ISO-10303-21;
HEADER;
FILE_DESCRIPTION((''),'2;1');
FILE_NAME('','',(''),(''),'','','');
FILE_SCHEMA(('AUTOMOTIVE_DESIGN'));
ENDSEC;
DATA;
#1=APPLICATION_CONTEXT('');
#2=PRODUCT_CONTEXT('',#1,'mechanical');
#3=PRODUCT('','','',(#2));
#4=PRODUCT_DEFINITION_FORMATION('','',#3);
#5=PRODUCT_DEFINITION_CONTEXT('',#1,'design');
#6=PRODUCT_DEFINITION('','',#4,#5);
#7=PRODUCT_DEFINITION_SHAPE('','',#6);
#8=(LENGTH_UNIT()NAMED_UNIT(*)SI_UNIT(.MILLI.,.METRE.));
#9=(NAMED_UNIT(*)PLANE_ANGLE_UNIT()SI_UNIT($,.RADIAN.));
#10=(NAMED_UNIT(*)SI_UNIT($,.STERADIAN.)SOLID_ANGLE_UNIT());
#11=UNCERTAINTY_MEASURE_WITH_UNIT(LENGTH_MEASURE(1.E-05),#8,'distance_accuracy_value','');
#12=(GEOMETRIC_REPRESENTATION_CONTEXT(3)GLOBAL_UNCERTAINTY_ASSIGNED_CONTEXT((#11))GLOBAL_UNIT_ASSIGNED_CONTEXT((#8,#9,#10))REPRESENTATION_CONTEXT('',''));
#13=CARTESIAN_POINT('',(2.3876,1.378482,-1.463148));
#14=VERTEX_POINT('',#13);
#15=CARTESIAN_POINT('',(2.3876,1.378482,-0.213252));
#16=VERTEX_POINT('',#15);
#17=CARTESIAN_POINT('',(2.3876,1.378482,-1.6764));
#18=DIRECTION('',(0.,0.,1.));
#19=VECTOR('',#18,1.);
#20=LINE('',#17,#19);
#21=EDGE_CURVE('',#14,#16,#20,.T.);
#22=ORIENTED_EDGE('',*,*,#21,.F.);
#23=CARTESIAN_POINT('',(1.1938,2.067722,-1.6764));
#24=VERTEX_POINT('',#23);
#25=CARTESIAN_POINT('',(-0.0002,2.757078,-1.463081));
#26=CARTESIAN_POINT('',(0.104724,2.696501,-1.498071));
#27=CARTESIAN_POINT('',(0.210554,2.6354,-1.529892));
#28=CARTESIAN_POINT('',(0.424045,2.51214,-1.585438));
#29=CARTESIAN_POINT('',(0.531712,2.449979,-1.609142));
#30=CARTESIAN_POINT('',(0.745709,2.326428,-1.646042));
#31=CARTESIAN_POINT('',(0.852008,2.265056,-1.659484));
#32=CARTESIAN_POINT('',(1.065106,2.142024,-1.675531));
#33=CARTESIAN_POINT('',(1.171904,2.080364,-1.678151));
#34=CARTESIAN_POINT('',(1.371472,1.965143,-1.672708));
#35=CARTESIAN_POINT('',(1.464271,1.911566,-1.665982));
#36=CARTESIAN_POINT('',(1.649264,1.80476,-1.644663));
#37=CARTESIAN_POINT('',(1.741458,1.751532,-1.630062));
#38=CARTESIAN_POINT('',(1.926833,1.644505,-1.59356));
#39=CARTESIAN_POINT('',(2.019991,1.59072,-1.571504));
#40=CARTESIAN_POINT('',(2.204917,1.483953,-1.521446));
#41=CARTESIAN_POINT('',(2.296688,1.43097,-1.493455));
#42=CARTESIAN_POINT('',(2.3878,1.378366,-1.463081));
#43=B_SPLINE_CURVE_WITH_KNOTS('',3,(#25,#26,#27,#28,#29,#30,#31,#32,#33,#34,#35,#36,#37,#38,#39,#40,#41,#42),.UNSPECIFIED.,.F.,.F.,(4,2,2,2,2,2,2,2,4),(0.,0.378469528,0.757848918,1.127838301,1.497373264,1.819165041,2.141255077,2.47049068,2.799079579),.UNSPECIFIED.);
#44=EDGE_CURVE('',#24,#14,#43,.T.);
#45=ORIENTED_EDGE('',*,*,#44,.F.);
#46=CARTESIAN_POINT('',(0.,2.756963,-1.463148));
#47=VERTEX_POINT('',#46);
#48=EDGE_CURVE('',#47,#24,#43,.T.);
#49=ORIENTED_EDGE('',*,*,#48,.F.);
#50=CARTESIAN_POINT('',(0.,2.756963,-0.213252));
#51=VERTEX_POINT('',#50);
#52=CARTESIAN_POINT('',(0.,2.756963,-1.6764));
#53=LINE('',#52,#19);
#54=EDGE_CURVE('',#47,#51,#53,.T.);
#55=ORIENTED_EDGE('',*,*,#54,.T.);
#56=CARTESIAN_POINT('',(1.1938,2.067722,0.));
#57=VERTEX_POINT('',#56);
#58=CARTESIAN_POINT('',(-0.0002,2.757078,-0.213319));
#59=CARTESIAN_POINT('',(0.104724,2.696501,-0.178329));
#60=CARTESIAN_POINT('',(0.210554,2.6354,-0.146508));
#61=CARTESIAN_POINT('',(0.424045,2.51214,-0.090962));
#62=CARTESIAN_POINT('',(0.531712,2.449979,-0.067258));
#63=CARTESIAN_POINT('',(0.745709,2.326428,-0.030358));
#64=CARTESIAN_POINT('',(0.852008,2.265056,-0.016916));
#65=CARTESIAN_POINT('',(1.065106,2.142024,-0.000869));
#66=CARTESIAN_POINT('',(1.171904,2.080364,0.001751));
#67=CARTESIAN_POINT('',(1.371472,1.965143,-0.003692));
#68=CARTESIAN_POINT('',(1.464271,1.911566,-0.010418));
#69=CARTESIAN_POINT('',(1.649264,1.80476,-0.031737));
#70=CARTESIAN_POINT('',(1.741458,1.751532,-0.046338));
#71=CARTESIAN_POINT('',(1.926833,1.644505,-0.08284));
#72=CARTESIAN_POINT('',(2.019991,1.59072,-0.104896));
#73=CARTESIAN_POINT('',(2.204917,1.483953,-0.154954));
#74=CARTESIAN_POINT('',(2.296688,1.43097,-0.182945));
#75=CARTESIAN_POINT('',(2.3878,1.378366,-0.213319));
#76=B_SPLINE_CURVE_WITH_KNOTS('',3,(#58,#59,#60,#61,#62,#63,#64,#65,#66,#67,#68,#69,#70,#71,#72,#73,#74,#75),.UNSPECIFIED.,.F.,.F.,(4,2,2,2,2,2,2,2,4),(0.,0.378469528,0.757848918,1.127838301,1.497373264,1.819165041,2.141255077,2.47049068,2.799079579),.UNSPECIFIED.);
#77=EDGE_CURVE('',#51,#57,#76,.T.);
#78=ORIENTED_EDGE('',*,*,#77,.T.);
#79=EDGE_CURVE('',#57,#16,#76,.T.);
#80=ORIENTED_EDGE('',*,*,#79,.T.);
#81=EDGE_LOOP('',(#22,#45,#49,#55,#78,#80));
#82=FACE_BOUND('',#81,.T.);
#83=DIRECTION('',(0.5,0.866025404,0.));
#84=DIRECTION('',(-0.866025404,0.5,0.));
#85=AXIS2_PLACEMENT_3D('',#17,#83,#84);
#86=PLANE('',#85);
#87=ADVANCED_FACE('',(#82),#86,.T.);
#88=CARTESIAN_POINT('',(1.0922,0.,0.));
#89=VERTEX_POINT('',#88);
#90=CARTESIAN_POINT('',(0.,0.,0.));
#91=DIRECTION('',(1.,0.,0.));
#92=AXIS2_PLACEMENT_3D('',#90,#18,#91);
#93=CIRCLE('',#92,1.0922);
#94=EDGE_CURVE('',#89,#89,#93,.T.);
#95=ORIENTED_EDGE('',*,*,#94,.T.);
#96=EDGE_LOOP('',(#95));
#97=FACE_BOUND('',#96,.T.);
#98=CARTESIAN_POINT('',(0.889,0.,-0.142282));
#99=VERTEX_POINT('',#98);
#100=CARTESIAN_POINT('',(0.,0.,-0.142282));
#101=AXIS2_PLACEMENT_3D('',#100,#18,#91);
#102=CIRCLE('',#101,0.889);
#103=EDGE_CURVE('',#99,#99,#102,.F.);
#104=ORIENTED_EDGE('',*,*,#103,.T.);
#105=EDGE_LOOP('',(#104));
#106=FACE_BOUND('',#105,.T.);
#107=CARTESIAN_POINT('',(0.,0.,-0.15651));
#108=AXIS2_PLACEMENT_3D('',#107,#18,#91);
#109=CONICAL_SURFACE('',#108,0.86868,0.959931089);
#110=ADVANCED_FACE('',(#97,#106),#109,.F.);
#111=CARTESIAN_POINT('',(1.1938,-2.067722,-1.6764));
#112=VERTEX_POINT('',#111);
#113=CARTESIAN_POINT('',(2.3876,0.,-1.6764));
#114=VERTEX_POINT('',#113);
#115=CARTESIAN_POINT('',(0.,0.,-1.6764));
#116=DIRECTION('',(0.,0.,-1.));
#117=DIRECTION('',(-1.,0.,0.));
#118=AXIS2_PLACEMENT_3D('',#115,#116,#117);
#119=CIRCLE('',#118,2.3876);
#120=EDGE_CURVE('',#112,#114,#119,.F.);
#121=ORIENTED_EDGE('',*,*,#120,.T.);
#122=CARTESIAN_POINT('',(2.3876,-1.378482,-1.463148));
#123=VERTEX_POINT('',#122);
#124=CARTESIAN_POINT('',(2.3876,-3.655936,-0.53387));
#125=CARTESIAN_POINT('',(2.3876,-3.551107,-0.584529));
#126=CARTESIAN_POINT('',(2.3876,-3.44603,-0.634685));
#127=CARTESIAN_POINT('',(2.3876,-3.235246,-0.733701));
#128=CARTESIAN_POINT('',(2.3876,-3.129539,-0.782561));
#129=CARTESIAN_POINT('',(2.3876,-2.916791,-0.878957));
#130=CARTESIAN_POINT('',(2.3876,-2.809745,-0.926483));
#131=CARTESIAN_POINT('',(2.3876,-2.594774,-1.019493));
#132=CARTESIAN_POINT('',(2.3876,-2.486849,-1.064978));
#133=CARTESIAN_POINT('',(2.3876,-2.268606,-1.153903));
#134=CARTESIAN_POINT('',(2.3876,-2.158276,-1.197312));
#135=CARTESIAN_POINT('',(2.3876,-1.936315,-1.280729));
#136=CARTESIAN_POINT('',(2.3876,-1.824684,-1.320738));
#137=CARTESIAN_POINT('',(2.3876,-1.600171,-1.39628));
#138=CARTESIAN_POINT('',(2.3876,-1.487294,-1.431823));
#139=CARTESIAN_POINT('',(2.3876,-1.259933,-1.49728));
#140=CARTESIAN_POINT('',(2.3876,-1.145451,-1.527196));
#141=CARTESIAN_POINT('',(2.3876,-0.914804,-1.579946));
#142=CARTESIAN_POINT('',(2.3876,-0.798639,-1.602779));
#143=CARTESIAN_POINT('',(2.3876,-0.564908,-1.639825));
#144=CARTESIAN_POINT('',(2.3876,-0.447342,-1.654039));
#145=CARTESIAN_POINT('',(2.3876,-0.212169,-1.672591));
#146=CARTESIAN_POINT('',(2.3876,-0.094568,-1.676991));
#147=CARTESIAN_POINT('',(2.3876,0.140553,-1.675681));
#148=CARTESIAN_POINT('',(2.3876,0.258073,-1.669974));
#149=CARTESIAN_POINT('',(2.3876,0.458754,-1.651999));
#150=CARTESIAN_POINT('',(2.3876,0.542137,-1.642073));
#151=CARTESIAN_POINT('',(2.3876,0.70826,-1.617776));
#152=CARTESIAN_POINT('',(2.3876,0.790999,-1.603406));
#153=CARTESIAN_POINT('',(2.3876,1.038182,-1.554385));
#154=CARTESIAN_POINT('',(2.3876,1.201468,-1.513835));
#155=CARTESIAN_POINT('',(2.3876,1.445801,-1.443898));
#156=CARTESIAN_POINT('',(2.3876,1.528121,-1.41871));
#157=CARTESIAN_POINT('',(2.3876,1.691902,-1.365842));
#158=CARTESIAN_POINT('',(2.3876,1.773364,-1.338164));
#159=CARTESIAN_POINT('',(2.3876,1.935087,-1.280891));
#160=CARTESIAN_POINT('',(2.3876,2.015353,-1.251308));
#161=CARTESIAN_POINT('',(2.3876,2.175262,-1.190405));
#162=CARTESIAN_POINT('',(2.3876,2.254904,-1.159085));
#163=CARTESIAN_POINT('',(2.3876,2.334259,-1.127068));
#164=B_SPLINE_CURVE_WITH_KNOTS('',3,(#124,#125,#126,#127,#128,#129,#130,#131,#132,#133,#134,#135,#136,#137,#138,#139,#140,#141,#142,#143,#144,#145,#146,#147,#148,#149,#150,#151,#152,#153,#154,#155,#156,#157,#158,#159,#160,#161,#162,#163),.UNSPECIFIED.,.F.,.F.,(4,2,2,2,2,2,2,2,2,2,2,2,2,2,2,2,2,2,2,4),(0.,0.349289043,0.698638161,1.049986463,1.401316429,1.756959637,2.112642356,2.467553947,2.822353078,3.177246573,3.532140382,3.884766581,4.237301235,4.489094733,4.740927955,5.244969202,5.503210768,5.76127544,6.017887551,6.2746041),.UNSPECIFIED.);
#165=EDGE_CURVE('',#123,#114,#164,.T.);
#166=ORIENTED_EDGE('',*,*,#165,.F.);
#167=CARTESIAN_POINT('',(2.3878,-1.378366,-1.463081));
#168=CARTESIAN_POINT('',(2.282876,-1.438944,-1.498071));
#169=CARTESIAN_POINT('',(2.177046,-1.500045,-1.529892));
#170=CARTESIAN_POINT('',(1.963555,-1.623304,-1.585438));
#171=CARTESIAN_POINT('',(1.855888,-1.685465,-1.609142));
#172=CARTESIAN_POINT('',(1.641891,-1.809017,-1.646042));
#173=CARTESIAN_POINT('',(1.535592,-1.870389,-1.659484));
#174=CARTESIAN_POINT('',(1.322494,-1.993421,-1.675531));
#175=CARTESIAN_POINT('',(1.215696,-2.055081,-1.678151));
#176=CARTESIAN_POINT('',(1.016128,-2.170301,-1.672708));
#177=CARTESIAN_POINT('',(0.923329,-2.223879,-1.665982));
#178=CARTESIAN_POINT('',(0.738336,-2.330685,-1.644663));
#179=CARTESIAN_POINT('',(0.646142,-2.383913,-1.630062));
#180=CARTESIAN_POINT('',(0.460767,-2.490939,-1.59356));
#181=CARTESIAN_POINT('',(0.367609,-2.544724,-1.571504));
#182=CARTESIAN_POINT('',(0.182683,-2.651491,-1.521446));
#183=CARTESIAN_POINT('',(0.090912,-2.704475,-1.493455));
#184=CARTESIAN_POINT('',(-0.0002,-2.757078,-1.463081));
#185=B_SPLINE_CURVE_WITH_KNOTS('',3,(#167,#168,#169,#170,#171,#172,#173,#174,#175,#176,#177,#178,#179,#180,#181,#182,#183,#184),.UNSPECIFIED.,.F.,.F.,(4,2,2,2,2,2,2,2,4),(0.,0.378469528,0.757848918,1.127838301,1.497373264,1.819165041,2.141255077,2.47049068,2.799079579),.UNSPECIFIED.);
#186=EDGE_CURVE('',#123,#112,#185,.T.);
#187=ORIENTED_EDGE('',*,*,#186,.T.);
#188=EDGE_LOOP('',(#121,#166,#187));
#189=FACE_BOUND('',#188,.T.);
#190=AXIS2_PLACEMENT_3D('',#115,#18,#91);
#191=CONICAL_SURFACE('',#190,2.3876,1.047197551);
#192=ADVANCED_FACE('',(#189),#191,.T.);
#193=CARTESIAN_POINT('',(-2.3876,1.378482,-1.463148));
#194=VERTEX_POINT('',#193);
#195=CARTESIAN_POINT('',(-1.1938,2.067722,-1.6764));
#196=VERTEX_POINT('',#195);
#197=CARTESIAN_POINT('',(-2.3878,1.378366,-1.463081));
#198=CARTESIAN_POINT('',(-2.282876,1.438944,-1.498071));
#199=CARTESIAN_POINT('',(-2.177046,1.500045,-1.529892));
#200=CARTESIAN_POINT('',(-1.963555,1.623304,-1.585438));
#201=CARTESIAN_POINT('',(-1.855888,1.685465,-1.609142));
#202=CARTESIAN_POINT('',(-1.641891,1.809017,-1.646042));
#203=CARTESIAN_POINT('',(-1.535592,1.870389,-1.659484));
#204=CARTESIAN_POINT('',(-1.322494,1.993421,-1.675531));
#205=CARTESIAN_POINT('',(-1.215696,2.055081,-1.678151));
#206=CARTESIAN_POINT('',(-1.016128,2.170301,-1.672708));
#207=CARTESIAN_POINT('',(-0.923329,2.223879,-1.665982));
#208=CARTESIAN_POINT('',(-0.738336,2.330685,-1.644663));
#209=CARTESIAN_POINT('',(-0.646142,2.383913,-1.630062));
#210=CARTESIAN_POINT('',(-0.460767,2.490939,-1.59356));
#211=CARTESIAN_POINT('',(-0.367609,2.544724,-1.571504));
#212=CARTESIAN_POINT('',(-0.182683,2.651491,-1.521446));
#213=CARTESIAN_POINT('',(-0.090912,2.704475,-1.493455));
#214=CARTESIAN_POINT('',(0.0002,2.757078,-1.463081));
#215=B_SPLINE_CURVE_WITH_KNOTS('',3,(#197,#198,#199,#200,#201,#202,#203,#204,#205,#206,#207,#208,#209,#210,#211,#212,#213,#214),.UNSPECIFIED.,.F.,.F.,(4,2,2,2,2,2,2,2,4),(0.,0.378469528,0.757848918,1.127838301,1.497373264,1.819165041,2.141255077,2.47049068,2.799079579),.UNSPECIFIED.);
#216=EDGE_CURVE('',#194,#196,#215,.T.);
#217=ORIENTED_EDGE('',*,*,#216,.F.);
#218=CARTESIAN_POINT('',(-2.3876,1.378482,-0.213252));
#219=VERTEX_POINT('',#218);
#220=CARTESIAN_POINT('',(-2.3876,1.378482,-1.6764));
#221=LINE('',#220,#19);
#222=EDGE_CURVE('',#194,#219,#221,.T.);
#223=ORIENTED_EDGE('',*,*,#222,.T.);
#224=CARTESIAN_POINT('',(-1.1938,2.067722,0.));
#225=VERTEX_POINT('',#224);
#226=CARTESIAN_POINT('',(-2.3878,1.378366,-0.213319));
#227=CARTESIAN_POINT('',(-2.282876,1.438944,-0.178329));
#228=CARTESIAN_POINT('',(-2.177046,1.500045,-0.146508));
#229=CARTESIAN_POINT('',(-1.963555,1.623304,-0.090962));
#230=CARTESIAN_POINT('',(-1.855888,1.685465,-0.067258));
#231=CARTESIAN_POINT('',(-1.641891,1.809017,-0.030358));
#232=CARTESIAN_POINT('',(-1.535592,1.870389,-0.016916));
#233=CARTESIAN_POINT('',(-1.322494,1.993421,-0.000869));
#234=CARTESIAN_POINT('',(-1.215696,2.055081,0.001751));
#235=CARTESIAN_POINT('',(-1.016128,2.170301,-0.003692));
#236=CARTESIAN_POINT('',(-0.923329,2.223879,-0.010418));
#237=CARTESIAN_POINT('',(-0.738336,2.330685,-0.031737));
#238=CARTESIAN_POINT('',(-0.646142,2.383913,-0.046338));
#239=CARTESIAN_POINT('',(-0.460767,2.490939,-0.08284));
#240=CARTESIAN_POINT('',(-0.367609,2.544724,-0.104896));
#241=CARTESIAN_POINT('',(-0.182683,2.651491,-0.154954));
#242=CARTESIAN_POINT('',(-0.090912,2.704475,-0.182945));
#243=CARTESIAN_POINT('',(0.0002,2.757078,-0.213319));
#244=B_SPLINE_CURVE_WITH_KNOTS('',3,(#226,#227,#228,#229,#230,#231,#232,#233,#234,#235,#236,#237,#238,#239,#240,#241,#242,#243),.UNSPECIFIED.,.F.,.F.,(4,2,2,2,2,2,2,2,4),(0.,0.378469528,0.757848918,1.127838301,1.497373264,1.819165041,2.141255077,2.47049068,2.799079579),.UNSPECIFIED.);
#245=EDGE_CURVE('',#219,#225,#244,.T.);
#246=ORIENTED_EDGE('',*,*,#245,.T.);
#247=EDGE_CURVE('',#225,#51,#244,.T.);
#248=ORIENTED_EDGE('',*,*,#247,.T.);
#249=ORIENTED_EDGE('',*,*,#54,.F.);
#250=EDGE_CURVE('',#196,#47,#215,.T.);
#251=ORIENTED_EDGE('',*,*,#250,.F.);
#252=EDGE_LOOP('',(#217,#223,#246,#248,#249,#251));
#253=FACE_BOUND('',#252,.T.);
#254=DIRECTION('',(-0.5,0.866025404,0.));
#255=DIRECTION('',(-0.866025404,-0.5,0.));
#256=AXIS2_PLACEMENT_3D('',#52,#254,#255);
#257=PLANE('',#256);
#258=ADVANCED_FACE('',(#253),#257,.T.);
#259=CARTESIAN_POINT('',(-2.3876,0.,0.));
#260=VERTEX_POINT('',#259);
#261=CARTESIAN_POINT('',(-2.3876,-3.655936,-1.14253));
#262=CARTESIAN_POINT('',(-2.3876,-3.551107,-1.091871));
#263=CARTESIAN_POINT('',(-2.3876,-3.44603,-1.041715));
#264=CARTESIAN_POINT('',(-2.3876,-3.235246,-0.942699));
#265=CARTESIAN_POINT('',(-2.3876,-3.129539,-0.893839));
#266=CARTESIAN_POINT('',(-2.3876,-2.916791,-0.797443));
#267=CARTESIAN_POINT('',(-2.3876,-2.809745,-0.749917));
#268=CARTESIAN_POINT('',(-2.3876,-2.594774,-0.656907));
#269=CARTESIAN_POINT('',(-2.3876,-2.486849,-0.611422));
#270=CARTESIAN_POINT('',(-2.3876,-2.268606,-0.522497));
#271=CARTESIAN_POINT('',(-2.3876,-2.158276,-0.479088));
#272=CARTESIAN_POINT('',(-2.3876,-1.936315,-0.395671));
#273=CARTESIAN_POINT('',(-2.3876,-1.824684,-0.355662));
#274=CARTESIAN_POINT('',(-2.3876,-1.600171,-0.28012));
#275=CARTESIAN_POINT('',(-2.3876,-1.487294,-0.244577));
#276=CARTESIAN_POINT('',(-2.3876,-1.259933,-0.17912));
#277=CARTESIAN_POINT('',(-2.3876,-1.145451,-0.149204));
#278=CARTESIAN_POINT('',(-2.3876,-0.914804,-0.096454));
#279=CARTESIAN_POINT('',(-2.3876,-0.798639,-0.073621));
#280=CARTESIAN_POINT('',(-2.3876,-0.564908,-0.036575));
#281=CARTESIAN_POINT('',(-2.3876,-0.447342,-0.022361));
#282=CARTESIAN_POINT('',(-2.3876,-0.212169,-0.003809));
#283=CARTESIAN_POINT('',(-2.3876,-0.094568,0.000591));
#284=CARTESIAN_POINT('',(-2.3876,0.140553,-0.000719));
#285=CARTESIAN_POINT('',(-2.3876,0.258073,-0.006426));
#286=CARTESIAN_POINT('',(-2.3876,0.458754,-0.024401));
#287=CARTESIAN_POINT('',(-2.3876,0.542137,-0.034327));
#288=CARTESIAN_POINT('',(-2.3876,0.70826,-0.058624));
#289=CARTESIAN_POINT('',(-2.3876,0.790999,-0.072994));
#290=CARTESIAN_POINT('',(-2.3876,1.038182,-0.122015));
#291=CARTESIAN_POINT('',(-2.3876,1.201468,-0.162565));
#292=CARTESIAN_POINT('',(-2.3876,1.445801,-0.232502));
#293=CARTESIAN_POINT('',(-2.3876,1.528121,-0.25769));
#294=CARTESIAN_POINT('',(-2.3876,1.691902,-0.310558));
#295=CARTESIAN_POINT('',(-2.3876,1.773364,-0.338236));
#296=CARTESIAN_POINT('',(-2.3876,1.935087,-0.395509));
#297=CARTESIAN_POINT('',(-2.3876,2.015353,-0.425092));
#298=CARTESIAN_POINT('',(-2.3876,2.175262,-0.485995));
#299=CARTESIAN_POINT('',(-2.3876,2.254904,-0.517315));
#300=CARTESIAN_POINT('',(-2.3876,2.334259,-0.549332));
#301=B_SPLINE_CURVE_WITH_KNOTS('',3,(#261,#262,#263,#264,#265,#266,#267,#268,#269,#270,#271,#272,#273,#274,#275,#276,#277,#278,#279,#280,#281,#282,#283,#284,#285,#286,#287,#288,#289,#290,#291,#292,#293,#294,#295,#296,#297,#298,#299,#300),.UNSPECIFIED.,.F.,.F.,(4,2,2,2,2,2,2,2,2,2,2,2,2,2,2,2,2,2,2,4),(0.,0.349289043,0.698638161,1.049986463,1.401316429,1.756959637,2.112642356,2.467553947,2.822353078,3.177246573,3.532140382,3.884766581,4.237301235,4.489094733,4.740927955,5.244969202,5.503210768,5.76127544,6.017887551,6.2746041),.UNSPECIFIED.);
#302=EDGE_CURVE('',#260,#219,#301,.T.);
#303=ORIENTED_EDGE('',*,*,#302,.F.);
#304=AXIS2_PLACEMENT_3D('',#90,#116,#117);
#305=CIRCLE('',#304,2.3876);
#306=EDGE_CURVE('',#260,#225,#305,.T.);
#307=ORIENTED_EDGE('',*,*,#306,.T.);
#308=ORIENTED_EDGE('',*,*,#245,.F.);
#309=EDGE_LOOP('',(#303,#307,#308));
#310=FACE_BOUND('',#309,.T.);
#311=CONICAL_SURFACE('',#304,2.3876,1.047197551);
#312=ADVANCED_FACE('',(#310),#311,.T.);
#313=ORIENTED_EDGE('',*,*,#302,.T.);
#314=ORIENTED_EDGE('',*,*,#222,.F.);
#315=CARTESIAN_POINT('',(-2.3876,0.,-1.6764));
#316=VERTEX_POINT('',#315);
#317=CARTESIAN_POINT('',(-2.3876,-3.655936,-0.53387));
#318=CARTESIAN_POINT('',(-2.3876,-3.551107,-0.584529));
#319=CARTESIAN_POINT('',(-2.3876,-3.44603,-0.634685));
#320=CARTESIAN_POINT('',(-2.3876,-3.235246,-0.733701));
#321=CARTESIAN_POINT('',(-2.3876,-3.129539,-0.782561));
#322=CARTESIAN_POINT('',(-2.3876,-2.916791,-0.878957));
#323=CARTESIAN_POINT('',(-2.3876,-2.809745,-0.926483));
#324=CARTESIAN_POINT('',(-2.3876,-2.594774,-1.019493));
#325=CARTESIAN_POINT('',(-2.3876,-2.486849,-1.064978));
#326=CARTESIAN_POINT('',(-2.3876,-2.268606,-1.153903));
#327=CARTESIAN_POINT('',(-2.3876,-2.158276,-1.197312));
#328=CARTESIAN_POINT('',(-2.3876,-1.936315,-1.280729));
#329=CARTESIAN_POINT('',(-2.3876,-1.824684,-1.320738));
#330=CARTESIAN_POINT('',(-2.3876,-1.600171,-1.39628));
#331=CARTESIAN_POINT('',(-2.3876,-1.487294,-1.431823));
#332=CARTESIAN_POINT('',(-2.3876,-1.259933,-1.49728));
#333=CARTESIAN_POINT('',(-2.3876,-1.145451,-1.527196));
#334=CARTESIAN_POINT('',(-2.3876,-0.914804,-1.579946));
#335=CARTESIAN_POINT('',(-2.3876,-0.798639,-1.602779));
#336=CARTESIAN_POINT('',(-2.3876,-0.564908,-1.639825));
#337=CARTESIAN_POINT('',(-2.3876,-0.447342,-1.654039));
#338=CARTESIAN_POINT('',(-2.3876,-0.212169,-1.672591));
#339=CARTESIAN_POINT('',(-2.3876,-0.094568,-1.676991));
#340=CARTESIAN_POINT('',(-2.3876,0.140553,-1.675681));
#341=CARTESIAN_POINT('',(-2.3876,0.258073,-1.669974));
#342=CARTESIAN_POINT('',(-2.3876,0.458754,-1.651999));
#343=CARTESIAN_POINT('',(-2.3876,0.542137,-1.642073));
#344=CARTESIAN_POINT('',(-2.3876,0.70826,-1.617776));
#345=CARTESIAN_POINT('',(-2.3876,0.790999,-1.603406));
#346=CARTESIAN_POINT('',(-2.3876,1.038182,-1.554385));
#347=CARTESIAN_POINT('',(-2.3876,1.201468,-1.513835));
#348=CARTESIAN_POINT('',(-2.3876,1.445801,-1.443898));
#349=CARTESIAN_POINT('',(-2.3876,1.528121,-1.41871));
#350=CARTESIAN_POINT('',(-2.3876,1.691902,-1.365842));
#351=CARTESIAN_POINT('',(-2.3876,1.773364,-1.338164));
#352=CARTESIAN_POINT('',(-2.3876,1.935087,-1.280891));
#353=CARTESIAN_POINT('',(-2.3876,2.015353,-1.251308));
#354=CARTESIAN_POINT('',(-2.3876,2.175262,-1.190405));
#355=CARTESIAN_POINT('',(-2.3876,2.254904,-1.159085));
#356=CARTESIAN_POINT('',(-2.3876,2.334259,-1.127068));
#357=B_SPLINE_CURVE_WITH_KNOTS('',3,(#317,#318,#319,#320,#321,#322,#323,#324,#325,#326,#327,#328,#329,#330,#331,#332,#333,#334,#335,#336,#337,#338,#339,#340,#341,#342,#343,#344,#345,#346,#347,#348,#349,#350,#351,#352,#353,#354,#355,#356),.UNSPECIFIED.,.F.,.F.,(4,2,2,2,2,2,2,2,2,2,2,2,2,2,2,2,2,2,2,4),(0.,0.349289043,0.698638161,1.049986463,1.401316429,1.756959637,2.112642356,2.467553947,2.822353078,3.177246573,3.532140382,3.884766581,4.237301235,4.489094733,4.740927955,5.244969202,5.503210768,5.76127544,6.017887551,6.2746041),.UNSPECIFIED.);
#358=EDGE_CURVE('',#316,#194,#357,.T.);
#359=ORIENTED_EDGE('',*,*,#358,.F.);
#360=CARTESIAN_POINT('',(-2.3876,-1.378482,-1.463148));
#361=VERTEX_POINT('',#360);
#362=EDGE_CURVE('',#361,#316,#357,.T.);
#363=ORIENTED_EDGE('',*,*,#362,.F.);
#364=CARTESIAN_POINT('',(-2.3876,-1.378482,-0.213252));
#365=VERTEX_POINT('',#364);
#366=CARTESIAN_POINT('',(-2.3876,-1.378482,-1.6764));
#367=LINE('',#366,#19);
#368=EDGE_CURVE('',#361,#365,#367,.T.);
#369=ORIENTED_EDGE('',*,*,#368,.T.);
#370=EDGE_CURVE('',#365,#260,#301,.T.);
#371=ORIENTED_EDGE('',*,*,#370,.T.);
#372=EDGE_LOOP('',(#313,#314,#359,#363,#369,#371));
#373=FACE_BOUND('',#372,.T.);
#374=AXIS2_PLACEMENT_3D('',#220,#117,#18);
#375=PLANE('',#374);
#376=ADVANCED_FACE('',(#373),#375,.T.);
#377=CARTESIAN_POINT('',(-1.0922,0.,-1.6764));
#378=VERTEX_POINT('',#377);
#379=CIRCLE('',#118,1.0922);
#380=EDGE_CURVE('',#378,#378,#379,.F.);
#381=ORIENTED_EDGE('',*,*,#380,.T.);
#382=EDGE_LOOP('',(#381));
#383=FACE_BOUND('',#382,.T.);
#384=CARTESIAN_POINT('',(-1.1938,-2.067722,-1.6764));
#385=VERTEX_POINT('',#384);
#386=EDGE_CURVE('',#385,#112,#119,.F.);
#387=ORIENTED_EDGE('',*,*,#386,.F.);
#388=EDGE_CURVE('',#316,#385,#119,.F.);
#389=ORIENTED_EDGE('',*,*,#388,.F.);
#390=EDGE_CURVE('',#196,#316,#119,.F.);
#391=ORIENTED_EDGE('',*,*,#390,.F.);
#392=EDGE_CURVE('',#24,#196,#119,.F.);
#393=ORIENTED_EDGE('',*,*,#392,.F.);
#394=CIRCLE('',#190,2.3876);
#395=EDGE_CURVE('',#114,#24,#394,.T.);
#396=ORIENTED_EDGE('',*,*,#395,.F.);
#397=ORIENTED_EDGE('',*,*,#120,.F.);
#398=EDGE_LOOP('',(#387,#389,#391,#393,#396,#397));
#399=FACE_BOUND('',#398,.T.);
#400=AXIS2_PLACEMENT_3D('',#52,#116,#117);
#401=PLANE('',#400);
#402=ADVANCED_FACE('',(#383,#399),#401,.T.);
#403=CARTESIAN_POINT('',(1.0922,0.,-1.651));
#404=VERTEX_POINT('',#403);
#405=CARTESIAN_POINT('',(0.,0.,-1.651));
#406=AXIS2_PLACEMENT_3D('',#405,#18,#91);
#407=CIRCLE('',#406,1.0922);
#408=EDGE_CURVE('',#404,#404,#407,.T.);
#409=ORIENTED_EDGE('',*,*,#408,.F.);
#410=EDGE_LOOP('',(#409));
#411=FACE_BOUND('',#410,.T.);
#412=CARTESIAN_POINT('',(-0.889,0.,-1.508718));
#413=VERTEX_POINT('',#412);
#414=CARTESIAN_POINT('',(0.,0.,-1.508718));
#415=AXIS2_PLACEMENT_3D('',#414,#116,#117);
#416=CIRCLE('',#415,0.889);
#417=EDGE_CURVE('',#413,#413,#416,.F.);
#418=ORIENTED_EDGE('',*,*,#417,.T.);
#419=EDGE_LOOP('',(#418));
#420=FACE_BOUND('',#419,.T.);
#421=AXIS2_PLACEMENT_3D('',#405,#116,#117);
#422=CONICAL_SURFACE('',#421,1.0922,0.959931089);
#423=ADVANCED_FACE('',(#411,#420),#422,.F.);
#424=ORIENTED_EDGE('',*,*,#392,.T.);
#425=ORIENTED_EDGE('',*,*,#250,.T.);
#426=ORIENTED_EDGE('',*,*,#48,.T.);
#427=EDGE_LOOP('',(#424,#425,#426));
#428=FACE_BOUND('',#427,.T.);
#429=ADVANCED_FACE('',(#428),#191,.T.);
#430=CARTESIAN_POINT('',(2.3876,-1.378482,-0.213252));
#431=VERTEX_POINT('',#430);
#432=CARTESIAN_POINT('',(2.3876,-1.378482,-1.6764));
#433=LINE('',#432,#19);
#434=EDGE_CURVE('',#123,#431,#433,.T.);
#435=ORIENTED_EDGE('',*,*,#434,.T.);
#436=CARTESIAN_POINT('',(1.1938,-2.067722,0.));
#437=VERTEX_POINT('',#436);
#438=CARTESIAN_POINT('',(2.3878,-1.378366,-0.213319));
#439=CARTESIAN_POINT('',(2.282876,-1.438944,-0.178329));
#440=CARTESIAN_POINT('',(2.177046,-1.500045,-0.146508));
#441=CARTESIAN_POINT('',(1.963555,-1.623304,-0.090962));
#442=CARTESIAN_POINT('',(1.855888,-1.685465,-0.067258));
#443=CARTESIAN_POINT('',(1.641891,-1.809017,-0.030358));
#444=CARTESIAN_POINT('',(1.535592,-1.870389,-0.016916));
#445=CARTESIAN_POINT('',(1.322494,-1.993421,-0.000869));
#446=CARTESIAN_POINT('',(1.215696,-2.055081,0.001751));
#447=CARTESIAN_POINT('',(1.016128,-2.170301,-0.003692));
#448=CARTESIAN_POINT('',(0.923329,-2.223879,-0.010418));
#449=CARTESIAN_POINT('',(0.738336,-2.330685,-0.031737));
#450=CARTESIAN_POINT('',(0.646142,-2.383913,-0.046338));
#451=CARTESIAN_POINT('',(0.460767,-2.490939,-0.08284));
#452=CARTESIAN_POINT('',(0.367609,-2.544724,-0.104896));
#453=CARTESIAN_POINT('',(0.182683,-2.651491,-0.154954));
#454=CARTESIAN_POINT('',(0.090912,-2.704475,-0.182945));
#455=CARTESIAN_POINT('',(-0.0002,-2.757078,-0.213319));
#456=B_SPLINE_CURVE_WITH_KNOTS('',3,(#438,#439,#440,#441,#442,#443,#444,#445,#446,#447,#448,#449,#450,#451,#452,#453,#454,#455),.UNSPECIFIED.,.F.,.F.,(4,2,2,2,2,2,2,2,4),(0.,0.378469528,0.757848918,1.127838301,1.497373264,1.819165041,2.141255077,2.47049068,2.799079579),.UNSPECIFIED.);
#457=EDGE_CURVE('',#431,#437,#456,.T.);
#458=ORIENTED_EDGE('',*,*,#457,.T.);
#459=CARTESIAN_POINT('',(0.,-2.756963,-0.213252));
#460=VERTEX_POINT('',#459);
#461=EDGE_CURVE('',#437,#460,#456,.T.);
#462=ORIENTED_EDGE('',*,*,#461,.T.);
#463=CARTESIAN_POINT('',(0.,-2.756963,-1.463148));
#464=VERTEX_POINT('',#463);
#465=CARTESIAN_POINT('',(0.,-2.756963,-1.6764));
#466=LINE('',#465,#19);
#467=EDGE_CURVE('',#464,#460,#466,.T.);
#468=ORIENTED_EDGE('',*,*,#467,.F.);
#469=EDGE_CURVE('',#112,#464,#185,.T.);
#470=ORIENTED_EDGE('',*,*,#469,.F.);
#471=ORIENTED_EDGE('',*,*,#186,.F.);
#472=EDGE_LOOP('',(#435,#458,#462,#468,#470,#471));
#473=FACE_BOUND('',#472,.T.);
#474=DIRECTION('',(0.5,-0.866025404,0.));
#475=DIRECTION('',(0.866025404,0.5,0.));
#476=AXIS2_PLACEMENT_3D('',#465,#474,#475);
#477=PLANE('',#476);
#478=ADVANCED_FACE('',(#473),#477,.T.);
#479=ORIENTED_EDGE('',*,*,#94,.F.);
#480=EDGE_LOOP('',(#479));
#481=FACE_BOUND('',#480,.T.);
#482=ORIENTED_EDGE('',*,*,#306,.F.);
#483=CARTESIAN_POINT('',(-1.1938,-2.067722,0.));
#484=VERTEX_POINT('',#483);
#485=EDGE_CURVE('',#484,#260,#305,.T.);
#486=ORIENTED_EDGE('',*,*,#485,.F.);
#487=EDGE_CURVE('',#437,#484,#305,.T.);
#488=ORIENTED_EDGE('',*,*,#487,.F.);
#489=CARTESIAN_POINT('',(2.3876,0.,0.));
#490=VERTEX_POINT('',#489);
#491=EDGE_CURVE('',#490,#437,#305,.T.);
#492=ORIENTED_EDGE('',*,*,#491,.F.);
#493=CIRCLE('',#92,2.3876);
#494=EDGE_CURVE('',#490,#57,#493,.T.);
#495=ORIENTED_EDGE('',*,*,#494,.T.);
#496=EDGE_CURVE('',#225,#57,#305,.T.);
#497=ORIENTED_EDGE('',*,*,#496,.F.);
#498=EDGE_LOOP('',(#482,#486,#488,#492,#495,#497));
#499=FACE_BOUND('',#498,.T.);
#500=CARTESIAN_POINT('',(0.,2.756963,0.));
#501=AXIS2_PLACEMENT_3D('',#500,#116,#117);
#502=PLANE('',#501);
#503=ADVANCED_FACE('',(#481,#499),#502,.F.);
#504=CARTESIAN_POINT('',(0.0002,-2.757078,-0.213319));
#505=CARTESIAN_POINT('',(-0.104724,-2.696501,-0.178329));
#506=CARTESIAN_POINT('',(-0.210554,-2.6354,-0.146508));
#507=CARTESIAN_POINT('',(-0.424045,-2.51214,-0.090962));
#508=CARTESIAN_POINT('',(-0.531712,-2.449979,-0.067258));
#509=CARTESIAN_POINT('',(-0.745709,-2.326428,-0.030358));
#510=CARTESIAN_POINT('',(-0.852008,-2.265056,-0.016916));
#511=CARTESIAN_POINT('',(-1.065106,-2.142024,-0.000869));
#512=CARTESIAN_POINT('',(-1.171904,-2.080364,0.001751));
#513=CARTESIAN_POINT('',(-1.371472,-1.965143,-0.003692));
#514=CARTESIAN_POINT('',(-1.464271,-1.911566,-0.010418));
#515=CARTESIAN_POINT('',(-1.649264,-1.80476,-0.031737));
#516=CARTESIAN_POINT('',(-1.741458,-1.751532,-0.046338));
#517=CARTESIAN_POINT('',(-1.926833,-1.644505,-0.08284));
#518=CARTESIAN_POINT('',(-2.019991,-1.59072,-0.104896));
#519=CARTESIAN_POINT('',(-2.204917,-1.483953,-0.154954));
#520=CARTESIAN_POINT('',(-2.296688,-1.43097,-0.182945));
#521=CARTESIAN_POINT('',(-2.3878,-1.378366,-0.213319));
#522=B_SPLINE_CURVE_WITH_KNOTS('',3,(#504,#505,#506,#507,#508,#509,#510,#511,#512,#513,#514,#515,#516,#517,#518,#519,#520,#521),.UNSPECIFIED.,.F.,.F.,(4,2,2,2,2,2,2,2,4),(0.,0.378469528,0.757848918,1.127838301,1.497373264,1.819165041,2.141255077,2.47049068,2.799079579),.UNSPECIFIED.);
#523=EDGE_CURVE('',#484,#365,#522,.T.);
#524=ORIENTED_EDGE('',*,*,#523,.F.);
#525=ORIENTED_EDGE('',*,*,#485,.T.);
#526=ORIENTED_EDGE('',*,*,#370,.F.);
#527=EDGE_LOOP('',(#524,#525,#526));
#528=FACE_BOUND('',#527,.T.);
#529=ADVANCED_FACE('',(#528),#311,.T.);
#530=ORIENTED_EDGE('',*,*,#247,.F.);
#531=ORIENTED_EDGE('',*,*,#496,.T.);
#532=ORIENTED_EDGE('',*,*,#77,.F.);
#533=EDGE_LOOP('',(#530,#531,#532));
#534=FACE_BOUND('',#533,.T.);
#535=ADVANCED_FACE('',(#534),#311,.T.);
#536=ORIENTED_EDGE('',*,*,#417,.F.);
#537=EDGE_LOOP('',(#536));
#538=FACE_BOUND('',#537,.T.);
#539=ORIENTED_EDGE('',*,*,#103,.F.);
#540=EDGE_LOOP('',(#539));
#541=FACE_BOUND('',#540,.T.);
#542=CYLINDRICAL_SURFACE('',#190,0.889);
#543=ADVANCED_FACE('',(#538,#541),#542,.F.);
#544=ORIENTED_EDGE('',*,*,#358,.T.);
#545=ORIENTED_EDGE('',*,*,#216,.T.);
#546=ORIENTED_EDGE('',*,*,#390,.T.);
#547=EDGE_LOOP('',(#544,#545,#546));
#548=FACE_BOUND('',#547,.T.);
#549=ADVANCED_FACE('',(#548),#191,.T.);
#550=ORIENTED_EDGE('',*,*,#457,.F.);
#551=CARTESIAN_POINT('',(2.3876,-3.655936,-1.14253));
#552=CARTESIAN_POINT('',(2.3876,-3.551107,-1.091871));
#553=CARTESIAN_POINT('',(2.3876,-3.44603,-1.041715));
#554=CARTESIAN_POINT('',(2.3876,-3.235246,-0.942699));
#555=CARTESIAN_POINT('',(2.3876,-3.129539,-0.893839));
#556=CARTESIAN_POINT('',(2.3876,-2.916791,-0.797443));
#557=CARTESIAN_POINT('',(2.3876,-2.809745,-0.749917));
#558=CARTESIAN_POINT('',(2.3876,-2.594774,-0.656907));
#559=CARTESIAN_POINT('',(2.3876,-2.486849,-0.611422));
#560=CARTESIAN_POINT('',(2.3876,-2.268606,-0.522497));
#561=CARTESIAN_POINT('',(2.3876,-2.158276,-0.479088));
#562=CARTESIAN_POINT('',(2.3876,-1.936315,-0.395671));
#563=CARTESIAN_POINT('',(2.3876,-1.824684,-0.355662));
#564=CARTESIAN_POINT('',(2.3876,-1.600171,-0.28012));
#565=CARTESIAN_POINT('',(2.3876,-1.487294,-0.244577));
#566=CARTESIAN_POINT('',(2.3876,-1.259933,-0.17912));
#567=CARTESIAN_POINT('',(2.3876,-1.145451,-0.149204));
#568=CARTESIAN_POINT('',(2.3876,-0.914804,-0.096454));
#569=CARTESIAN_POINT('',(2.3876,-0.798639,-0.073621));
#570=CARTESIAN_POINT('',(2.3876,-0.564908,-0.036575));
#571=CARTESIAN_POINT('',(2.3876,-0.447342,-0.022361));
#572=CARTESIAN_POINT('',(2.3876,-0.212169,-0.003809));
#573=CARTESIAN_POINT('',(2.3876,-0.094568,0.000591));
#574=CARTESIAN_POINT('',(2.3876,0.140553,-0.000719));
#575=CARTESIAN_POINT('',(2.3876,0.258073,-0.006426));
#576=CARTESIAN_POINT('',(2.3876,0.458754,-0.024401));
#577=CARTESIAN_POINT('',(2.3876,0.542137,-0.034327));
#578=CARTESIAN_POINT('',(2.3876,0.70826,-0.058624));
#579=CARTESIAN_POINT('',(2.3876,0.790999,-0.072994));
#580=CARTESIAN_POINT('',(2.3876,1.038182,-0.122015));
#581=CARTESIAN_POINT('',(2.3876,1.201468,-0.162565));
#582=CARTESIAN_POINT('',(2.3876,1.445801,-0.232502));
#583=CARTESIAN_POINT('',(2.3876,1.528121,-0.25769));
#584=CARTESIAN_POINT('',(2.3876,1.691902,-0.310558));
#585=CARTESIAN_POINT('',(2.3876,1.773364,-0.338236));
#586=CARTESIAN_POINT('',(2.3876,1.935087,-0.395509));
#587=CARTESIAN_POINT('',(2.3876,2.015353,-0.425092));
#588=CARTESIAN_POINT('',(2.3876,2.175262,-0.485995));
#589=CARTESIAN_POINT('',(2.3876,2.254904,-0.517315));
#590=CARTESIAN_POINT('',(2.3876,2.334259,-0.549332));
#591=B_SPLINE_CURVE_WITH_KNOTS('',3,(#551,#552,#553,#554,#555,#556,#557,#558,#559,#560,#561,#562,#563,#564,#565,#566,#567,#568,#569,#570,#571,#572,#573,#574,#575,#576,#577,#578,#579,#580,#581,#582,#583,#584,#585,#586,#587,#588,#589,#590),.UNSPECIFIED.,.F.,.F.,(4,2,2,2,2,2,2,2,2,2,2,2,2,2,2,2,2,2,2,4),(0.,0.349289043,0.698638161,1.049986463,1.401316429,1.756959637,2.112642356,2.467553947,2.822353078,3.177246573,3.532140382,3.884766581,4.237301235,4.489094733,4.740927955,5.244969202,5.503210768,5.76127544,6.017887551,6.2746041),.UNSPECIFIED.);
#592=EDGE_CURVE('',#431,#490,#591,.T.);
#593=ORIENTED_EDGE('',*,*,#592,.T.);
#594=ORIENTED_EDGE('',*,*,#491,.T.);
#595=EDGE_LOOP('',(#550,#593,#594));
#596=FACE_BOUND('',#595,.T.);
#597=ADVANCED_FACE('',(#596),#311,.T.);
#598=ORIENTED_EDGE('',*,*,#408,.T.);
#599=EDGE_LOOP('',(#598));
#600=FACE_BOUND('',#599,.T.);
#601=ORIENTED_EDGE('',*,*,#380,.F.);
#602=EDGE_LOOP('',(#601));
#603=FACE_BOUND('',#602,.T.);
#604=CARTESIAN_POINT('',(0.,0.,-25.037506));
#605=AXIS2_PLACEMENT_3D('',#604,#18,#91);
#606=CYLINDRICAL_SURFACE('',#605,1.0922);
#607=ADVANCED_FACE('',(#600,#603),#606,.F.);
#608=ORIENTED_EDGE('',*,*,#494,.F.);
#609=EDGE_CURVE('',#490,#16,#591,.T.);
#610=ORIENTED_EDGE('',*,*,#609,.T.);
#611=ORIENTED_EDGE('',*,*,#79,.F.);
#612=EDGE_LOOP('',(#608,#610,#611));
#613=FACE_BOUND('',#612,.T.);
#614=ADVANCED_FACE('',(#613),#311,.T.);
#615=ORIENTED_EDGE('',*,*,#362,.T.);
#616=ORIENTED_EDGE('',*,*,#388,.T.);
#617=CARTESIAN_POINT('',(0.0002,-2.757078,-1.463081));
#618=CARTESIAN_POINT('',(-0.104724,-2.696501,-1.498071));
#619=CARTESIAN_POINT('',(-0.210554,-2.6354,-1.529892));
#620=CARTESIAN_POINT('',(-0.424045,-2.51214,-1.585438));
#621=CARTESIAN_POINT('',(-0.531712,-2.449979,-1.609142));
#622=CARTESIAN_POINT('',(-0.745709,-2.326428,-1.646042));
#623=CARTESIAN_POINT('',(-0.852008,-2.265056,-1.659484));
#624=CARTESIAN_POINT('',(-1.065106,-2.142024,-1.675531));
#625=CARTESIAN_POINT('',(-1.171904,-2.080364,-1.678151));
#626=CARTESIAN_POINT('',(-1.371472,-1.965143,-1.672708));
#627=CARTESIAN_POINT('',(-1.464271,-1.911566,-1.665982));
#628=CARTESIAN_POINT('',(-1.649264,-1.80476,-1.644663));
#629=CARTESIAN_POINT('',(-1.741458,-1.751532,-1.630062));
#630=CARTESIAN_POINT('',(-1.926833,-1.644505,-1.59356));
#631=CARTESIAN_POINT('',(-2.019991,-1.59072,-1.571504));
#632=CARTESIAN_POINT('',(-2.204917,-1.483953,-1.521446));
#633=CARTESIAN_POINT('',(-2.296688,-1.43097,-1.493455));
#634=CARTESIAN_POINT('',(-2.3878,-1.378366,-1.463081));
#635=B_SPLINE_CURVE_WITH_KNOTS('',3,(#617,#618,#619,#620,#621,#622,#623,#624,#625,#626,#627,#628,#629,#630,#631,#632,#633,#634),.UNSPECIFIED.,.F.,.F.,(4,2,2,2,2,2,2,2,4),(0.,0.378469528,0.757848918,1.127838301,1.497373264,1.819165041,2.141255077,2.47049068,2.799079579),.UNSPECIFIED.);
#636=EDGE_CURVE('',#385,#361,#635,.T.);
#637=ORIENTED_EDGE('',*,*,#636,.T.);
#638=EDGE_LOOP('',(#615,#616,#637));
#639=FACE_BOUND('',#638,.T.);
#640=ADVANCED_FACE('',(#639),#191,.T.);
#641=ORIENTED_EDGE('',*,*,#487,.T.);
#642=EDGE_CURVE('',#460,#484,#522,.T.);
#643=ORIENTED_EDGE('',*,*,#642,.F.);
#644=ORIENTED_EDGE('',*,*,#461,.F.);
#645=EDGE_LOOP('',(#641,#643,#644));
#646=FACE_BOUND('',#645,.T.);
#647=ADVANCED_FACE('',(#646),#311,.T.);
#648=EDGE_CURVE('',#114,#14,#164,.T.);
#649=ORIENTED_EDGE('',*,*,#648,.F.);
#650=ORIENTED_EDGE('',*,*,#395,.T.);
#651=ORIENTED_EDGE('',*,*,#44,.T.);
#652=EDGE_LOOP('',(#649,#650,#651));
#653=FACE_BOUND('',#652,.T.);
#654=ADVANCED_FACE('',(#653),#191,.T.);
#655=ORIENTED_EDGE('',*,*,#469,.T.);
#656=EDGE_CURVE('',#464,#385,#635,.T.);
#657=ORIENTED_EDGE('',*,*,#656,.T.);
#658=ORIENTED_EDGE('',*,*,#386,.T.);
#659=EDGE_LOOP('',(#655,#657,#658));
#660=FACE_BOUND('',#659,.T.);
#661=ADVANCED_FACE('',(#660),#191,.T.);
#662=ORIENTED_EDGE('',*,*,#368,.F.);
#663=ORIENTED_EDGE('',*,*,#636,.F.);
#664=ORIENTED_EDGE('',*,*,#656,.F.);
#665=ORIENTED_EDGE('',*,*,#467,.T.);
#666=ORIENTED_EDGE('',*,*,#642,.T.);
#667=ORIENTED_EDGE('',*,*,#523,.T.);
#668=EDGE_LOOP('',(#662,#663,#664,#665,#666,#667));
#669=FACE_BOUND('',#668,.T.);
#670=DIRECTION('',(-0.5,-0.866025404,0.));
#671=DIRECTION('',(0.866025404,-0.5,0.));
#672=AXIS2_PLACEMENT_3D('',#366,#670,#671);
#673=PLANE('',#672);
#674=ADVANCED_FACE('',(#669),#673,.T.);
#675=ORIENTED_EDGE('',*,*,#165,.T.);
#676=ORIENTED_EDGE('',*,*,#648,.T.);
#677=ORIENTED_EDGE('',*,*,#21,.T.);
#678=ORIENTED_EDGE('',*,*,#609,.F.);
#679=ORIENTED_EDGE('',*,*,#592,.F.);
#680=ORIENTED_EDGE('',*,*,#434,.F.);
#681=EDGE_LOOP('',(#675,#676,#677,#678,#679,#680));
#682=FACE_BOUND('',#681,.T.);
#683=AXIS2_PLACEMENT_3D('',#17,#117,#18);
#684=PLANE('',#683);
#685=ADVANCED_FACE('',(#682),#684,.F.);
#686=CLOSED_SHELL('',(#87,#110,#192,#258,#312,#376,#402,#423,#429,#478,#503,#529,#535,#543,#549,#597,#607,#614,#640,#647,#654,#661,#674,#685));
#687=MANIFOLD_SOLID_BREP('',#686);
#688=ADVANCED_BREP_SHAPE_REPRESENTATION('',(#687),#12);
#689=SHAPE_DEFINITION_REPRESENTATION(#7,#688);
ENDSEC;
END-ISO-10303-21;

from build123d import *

# Parameters (mm, degrees)
BASENUTSKE_R  = 0.889
BASENUT_DEPTH = 1.6764


with BuildPart() as part:
    # BaseNutSke → BaseNut (new body)
    with BuildSketch(Plane.XY):
        Polygon((2.3876, 1.378481503), (2.3876, -1.378481503), (0, -2.756963005), (-2.3876, -1.378481503), (-2.3876, 1.378481503), (0, 2.756963005), align=None)
        Circle(BASENUTSKE_R, mode=Mode.SUBTRACT)
    extrude(amount=-BASENUT_DEPTH)

    # Sketch3 → Double-Chamfer (revolve, cut)
    with BuildSketch(Plane(origin=(0, 0, 0), x_dir=(0, 0, -1), z_dir=(1, 0, 0))):
        Polygon((1.6764, 2.3876), (1.463148169, 2.756963005), (1.463148169, 15.456963005), (14.3764, 15.456963005), (14.3764, 2.3876), align=None)
        Polygon((0.213251831, 15.456963005), (-12.7, 15.456963005), (-12.7, 2.3876), (0, 2.3876), (0.213251831, 2.756963005), align=None)
    revolve(axis=Axis((0, 0, 0), (0, 0, -1)), mode=Mode.SUBTRACT)

    # EndChamferSketch → EndChamfer (revolve, cut)
    with BuildSketch(Plane(origin=(0, 0, 0), x_dir=(0, 0, -1), z_dir=(1, 0, 0)), mode=Mode.PRIVATE) as endchamfer_sk:
        Polygon((1.651, 1.0922), (1.494489611, 0.86868), (1.7018, 0.86868), (1.7018, 1.0922), align=None)
        Polygon((-0.0508, 1.0922), (0, 1.0922), (0.156510389, 0.86868), (-0.0508, 0.86868), align=None)
    revolve(endchamfer_sk.sketch.rotate(Axis((0, 0, -25.037505729), (0, 0, -1)), 90), axis=Axis((0, 0, -25.037505729), (0, 0, -1)), mode=Mode.SUBTRACT)


solid = part.part
